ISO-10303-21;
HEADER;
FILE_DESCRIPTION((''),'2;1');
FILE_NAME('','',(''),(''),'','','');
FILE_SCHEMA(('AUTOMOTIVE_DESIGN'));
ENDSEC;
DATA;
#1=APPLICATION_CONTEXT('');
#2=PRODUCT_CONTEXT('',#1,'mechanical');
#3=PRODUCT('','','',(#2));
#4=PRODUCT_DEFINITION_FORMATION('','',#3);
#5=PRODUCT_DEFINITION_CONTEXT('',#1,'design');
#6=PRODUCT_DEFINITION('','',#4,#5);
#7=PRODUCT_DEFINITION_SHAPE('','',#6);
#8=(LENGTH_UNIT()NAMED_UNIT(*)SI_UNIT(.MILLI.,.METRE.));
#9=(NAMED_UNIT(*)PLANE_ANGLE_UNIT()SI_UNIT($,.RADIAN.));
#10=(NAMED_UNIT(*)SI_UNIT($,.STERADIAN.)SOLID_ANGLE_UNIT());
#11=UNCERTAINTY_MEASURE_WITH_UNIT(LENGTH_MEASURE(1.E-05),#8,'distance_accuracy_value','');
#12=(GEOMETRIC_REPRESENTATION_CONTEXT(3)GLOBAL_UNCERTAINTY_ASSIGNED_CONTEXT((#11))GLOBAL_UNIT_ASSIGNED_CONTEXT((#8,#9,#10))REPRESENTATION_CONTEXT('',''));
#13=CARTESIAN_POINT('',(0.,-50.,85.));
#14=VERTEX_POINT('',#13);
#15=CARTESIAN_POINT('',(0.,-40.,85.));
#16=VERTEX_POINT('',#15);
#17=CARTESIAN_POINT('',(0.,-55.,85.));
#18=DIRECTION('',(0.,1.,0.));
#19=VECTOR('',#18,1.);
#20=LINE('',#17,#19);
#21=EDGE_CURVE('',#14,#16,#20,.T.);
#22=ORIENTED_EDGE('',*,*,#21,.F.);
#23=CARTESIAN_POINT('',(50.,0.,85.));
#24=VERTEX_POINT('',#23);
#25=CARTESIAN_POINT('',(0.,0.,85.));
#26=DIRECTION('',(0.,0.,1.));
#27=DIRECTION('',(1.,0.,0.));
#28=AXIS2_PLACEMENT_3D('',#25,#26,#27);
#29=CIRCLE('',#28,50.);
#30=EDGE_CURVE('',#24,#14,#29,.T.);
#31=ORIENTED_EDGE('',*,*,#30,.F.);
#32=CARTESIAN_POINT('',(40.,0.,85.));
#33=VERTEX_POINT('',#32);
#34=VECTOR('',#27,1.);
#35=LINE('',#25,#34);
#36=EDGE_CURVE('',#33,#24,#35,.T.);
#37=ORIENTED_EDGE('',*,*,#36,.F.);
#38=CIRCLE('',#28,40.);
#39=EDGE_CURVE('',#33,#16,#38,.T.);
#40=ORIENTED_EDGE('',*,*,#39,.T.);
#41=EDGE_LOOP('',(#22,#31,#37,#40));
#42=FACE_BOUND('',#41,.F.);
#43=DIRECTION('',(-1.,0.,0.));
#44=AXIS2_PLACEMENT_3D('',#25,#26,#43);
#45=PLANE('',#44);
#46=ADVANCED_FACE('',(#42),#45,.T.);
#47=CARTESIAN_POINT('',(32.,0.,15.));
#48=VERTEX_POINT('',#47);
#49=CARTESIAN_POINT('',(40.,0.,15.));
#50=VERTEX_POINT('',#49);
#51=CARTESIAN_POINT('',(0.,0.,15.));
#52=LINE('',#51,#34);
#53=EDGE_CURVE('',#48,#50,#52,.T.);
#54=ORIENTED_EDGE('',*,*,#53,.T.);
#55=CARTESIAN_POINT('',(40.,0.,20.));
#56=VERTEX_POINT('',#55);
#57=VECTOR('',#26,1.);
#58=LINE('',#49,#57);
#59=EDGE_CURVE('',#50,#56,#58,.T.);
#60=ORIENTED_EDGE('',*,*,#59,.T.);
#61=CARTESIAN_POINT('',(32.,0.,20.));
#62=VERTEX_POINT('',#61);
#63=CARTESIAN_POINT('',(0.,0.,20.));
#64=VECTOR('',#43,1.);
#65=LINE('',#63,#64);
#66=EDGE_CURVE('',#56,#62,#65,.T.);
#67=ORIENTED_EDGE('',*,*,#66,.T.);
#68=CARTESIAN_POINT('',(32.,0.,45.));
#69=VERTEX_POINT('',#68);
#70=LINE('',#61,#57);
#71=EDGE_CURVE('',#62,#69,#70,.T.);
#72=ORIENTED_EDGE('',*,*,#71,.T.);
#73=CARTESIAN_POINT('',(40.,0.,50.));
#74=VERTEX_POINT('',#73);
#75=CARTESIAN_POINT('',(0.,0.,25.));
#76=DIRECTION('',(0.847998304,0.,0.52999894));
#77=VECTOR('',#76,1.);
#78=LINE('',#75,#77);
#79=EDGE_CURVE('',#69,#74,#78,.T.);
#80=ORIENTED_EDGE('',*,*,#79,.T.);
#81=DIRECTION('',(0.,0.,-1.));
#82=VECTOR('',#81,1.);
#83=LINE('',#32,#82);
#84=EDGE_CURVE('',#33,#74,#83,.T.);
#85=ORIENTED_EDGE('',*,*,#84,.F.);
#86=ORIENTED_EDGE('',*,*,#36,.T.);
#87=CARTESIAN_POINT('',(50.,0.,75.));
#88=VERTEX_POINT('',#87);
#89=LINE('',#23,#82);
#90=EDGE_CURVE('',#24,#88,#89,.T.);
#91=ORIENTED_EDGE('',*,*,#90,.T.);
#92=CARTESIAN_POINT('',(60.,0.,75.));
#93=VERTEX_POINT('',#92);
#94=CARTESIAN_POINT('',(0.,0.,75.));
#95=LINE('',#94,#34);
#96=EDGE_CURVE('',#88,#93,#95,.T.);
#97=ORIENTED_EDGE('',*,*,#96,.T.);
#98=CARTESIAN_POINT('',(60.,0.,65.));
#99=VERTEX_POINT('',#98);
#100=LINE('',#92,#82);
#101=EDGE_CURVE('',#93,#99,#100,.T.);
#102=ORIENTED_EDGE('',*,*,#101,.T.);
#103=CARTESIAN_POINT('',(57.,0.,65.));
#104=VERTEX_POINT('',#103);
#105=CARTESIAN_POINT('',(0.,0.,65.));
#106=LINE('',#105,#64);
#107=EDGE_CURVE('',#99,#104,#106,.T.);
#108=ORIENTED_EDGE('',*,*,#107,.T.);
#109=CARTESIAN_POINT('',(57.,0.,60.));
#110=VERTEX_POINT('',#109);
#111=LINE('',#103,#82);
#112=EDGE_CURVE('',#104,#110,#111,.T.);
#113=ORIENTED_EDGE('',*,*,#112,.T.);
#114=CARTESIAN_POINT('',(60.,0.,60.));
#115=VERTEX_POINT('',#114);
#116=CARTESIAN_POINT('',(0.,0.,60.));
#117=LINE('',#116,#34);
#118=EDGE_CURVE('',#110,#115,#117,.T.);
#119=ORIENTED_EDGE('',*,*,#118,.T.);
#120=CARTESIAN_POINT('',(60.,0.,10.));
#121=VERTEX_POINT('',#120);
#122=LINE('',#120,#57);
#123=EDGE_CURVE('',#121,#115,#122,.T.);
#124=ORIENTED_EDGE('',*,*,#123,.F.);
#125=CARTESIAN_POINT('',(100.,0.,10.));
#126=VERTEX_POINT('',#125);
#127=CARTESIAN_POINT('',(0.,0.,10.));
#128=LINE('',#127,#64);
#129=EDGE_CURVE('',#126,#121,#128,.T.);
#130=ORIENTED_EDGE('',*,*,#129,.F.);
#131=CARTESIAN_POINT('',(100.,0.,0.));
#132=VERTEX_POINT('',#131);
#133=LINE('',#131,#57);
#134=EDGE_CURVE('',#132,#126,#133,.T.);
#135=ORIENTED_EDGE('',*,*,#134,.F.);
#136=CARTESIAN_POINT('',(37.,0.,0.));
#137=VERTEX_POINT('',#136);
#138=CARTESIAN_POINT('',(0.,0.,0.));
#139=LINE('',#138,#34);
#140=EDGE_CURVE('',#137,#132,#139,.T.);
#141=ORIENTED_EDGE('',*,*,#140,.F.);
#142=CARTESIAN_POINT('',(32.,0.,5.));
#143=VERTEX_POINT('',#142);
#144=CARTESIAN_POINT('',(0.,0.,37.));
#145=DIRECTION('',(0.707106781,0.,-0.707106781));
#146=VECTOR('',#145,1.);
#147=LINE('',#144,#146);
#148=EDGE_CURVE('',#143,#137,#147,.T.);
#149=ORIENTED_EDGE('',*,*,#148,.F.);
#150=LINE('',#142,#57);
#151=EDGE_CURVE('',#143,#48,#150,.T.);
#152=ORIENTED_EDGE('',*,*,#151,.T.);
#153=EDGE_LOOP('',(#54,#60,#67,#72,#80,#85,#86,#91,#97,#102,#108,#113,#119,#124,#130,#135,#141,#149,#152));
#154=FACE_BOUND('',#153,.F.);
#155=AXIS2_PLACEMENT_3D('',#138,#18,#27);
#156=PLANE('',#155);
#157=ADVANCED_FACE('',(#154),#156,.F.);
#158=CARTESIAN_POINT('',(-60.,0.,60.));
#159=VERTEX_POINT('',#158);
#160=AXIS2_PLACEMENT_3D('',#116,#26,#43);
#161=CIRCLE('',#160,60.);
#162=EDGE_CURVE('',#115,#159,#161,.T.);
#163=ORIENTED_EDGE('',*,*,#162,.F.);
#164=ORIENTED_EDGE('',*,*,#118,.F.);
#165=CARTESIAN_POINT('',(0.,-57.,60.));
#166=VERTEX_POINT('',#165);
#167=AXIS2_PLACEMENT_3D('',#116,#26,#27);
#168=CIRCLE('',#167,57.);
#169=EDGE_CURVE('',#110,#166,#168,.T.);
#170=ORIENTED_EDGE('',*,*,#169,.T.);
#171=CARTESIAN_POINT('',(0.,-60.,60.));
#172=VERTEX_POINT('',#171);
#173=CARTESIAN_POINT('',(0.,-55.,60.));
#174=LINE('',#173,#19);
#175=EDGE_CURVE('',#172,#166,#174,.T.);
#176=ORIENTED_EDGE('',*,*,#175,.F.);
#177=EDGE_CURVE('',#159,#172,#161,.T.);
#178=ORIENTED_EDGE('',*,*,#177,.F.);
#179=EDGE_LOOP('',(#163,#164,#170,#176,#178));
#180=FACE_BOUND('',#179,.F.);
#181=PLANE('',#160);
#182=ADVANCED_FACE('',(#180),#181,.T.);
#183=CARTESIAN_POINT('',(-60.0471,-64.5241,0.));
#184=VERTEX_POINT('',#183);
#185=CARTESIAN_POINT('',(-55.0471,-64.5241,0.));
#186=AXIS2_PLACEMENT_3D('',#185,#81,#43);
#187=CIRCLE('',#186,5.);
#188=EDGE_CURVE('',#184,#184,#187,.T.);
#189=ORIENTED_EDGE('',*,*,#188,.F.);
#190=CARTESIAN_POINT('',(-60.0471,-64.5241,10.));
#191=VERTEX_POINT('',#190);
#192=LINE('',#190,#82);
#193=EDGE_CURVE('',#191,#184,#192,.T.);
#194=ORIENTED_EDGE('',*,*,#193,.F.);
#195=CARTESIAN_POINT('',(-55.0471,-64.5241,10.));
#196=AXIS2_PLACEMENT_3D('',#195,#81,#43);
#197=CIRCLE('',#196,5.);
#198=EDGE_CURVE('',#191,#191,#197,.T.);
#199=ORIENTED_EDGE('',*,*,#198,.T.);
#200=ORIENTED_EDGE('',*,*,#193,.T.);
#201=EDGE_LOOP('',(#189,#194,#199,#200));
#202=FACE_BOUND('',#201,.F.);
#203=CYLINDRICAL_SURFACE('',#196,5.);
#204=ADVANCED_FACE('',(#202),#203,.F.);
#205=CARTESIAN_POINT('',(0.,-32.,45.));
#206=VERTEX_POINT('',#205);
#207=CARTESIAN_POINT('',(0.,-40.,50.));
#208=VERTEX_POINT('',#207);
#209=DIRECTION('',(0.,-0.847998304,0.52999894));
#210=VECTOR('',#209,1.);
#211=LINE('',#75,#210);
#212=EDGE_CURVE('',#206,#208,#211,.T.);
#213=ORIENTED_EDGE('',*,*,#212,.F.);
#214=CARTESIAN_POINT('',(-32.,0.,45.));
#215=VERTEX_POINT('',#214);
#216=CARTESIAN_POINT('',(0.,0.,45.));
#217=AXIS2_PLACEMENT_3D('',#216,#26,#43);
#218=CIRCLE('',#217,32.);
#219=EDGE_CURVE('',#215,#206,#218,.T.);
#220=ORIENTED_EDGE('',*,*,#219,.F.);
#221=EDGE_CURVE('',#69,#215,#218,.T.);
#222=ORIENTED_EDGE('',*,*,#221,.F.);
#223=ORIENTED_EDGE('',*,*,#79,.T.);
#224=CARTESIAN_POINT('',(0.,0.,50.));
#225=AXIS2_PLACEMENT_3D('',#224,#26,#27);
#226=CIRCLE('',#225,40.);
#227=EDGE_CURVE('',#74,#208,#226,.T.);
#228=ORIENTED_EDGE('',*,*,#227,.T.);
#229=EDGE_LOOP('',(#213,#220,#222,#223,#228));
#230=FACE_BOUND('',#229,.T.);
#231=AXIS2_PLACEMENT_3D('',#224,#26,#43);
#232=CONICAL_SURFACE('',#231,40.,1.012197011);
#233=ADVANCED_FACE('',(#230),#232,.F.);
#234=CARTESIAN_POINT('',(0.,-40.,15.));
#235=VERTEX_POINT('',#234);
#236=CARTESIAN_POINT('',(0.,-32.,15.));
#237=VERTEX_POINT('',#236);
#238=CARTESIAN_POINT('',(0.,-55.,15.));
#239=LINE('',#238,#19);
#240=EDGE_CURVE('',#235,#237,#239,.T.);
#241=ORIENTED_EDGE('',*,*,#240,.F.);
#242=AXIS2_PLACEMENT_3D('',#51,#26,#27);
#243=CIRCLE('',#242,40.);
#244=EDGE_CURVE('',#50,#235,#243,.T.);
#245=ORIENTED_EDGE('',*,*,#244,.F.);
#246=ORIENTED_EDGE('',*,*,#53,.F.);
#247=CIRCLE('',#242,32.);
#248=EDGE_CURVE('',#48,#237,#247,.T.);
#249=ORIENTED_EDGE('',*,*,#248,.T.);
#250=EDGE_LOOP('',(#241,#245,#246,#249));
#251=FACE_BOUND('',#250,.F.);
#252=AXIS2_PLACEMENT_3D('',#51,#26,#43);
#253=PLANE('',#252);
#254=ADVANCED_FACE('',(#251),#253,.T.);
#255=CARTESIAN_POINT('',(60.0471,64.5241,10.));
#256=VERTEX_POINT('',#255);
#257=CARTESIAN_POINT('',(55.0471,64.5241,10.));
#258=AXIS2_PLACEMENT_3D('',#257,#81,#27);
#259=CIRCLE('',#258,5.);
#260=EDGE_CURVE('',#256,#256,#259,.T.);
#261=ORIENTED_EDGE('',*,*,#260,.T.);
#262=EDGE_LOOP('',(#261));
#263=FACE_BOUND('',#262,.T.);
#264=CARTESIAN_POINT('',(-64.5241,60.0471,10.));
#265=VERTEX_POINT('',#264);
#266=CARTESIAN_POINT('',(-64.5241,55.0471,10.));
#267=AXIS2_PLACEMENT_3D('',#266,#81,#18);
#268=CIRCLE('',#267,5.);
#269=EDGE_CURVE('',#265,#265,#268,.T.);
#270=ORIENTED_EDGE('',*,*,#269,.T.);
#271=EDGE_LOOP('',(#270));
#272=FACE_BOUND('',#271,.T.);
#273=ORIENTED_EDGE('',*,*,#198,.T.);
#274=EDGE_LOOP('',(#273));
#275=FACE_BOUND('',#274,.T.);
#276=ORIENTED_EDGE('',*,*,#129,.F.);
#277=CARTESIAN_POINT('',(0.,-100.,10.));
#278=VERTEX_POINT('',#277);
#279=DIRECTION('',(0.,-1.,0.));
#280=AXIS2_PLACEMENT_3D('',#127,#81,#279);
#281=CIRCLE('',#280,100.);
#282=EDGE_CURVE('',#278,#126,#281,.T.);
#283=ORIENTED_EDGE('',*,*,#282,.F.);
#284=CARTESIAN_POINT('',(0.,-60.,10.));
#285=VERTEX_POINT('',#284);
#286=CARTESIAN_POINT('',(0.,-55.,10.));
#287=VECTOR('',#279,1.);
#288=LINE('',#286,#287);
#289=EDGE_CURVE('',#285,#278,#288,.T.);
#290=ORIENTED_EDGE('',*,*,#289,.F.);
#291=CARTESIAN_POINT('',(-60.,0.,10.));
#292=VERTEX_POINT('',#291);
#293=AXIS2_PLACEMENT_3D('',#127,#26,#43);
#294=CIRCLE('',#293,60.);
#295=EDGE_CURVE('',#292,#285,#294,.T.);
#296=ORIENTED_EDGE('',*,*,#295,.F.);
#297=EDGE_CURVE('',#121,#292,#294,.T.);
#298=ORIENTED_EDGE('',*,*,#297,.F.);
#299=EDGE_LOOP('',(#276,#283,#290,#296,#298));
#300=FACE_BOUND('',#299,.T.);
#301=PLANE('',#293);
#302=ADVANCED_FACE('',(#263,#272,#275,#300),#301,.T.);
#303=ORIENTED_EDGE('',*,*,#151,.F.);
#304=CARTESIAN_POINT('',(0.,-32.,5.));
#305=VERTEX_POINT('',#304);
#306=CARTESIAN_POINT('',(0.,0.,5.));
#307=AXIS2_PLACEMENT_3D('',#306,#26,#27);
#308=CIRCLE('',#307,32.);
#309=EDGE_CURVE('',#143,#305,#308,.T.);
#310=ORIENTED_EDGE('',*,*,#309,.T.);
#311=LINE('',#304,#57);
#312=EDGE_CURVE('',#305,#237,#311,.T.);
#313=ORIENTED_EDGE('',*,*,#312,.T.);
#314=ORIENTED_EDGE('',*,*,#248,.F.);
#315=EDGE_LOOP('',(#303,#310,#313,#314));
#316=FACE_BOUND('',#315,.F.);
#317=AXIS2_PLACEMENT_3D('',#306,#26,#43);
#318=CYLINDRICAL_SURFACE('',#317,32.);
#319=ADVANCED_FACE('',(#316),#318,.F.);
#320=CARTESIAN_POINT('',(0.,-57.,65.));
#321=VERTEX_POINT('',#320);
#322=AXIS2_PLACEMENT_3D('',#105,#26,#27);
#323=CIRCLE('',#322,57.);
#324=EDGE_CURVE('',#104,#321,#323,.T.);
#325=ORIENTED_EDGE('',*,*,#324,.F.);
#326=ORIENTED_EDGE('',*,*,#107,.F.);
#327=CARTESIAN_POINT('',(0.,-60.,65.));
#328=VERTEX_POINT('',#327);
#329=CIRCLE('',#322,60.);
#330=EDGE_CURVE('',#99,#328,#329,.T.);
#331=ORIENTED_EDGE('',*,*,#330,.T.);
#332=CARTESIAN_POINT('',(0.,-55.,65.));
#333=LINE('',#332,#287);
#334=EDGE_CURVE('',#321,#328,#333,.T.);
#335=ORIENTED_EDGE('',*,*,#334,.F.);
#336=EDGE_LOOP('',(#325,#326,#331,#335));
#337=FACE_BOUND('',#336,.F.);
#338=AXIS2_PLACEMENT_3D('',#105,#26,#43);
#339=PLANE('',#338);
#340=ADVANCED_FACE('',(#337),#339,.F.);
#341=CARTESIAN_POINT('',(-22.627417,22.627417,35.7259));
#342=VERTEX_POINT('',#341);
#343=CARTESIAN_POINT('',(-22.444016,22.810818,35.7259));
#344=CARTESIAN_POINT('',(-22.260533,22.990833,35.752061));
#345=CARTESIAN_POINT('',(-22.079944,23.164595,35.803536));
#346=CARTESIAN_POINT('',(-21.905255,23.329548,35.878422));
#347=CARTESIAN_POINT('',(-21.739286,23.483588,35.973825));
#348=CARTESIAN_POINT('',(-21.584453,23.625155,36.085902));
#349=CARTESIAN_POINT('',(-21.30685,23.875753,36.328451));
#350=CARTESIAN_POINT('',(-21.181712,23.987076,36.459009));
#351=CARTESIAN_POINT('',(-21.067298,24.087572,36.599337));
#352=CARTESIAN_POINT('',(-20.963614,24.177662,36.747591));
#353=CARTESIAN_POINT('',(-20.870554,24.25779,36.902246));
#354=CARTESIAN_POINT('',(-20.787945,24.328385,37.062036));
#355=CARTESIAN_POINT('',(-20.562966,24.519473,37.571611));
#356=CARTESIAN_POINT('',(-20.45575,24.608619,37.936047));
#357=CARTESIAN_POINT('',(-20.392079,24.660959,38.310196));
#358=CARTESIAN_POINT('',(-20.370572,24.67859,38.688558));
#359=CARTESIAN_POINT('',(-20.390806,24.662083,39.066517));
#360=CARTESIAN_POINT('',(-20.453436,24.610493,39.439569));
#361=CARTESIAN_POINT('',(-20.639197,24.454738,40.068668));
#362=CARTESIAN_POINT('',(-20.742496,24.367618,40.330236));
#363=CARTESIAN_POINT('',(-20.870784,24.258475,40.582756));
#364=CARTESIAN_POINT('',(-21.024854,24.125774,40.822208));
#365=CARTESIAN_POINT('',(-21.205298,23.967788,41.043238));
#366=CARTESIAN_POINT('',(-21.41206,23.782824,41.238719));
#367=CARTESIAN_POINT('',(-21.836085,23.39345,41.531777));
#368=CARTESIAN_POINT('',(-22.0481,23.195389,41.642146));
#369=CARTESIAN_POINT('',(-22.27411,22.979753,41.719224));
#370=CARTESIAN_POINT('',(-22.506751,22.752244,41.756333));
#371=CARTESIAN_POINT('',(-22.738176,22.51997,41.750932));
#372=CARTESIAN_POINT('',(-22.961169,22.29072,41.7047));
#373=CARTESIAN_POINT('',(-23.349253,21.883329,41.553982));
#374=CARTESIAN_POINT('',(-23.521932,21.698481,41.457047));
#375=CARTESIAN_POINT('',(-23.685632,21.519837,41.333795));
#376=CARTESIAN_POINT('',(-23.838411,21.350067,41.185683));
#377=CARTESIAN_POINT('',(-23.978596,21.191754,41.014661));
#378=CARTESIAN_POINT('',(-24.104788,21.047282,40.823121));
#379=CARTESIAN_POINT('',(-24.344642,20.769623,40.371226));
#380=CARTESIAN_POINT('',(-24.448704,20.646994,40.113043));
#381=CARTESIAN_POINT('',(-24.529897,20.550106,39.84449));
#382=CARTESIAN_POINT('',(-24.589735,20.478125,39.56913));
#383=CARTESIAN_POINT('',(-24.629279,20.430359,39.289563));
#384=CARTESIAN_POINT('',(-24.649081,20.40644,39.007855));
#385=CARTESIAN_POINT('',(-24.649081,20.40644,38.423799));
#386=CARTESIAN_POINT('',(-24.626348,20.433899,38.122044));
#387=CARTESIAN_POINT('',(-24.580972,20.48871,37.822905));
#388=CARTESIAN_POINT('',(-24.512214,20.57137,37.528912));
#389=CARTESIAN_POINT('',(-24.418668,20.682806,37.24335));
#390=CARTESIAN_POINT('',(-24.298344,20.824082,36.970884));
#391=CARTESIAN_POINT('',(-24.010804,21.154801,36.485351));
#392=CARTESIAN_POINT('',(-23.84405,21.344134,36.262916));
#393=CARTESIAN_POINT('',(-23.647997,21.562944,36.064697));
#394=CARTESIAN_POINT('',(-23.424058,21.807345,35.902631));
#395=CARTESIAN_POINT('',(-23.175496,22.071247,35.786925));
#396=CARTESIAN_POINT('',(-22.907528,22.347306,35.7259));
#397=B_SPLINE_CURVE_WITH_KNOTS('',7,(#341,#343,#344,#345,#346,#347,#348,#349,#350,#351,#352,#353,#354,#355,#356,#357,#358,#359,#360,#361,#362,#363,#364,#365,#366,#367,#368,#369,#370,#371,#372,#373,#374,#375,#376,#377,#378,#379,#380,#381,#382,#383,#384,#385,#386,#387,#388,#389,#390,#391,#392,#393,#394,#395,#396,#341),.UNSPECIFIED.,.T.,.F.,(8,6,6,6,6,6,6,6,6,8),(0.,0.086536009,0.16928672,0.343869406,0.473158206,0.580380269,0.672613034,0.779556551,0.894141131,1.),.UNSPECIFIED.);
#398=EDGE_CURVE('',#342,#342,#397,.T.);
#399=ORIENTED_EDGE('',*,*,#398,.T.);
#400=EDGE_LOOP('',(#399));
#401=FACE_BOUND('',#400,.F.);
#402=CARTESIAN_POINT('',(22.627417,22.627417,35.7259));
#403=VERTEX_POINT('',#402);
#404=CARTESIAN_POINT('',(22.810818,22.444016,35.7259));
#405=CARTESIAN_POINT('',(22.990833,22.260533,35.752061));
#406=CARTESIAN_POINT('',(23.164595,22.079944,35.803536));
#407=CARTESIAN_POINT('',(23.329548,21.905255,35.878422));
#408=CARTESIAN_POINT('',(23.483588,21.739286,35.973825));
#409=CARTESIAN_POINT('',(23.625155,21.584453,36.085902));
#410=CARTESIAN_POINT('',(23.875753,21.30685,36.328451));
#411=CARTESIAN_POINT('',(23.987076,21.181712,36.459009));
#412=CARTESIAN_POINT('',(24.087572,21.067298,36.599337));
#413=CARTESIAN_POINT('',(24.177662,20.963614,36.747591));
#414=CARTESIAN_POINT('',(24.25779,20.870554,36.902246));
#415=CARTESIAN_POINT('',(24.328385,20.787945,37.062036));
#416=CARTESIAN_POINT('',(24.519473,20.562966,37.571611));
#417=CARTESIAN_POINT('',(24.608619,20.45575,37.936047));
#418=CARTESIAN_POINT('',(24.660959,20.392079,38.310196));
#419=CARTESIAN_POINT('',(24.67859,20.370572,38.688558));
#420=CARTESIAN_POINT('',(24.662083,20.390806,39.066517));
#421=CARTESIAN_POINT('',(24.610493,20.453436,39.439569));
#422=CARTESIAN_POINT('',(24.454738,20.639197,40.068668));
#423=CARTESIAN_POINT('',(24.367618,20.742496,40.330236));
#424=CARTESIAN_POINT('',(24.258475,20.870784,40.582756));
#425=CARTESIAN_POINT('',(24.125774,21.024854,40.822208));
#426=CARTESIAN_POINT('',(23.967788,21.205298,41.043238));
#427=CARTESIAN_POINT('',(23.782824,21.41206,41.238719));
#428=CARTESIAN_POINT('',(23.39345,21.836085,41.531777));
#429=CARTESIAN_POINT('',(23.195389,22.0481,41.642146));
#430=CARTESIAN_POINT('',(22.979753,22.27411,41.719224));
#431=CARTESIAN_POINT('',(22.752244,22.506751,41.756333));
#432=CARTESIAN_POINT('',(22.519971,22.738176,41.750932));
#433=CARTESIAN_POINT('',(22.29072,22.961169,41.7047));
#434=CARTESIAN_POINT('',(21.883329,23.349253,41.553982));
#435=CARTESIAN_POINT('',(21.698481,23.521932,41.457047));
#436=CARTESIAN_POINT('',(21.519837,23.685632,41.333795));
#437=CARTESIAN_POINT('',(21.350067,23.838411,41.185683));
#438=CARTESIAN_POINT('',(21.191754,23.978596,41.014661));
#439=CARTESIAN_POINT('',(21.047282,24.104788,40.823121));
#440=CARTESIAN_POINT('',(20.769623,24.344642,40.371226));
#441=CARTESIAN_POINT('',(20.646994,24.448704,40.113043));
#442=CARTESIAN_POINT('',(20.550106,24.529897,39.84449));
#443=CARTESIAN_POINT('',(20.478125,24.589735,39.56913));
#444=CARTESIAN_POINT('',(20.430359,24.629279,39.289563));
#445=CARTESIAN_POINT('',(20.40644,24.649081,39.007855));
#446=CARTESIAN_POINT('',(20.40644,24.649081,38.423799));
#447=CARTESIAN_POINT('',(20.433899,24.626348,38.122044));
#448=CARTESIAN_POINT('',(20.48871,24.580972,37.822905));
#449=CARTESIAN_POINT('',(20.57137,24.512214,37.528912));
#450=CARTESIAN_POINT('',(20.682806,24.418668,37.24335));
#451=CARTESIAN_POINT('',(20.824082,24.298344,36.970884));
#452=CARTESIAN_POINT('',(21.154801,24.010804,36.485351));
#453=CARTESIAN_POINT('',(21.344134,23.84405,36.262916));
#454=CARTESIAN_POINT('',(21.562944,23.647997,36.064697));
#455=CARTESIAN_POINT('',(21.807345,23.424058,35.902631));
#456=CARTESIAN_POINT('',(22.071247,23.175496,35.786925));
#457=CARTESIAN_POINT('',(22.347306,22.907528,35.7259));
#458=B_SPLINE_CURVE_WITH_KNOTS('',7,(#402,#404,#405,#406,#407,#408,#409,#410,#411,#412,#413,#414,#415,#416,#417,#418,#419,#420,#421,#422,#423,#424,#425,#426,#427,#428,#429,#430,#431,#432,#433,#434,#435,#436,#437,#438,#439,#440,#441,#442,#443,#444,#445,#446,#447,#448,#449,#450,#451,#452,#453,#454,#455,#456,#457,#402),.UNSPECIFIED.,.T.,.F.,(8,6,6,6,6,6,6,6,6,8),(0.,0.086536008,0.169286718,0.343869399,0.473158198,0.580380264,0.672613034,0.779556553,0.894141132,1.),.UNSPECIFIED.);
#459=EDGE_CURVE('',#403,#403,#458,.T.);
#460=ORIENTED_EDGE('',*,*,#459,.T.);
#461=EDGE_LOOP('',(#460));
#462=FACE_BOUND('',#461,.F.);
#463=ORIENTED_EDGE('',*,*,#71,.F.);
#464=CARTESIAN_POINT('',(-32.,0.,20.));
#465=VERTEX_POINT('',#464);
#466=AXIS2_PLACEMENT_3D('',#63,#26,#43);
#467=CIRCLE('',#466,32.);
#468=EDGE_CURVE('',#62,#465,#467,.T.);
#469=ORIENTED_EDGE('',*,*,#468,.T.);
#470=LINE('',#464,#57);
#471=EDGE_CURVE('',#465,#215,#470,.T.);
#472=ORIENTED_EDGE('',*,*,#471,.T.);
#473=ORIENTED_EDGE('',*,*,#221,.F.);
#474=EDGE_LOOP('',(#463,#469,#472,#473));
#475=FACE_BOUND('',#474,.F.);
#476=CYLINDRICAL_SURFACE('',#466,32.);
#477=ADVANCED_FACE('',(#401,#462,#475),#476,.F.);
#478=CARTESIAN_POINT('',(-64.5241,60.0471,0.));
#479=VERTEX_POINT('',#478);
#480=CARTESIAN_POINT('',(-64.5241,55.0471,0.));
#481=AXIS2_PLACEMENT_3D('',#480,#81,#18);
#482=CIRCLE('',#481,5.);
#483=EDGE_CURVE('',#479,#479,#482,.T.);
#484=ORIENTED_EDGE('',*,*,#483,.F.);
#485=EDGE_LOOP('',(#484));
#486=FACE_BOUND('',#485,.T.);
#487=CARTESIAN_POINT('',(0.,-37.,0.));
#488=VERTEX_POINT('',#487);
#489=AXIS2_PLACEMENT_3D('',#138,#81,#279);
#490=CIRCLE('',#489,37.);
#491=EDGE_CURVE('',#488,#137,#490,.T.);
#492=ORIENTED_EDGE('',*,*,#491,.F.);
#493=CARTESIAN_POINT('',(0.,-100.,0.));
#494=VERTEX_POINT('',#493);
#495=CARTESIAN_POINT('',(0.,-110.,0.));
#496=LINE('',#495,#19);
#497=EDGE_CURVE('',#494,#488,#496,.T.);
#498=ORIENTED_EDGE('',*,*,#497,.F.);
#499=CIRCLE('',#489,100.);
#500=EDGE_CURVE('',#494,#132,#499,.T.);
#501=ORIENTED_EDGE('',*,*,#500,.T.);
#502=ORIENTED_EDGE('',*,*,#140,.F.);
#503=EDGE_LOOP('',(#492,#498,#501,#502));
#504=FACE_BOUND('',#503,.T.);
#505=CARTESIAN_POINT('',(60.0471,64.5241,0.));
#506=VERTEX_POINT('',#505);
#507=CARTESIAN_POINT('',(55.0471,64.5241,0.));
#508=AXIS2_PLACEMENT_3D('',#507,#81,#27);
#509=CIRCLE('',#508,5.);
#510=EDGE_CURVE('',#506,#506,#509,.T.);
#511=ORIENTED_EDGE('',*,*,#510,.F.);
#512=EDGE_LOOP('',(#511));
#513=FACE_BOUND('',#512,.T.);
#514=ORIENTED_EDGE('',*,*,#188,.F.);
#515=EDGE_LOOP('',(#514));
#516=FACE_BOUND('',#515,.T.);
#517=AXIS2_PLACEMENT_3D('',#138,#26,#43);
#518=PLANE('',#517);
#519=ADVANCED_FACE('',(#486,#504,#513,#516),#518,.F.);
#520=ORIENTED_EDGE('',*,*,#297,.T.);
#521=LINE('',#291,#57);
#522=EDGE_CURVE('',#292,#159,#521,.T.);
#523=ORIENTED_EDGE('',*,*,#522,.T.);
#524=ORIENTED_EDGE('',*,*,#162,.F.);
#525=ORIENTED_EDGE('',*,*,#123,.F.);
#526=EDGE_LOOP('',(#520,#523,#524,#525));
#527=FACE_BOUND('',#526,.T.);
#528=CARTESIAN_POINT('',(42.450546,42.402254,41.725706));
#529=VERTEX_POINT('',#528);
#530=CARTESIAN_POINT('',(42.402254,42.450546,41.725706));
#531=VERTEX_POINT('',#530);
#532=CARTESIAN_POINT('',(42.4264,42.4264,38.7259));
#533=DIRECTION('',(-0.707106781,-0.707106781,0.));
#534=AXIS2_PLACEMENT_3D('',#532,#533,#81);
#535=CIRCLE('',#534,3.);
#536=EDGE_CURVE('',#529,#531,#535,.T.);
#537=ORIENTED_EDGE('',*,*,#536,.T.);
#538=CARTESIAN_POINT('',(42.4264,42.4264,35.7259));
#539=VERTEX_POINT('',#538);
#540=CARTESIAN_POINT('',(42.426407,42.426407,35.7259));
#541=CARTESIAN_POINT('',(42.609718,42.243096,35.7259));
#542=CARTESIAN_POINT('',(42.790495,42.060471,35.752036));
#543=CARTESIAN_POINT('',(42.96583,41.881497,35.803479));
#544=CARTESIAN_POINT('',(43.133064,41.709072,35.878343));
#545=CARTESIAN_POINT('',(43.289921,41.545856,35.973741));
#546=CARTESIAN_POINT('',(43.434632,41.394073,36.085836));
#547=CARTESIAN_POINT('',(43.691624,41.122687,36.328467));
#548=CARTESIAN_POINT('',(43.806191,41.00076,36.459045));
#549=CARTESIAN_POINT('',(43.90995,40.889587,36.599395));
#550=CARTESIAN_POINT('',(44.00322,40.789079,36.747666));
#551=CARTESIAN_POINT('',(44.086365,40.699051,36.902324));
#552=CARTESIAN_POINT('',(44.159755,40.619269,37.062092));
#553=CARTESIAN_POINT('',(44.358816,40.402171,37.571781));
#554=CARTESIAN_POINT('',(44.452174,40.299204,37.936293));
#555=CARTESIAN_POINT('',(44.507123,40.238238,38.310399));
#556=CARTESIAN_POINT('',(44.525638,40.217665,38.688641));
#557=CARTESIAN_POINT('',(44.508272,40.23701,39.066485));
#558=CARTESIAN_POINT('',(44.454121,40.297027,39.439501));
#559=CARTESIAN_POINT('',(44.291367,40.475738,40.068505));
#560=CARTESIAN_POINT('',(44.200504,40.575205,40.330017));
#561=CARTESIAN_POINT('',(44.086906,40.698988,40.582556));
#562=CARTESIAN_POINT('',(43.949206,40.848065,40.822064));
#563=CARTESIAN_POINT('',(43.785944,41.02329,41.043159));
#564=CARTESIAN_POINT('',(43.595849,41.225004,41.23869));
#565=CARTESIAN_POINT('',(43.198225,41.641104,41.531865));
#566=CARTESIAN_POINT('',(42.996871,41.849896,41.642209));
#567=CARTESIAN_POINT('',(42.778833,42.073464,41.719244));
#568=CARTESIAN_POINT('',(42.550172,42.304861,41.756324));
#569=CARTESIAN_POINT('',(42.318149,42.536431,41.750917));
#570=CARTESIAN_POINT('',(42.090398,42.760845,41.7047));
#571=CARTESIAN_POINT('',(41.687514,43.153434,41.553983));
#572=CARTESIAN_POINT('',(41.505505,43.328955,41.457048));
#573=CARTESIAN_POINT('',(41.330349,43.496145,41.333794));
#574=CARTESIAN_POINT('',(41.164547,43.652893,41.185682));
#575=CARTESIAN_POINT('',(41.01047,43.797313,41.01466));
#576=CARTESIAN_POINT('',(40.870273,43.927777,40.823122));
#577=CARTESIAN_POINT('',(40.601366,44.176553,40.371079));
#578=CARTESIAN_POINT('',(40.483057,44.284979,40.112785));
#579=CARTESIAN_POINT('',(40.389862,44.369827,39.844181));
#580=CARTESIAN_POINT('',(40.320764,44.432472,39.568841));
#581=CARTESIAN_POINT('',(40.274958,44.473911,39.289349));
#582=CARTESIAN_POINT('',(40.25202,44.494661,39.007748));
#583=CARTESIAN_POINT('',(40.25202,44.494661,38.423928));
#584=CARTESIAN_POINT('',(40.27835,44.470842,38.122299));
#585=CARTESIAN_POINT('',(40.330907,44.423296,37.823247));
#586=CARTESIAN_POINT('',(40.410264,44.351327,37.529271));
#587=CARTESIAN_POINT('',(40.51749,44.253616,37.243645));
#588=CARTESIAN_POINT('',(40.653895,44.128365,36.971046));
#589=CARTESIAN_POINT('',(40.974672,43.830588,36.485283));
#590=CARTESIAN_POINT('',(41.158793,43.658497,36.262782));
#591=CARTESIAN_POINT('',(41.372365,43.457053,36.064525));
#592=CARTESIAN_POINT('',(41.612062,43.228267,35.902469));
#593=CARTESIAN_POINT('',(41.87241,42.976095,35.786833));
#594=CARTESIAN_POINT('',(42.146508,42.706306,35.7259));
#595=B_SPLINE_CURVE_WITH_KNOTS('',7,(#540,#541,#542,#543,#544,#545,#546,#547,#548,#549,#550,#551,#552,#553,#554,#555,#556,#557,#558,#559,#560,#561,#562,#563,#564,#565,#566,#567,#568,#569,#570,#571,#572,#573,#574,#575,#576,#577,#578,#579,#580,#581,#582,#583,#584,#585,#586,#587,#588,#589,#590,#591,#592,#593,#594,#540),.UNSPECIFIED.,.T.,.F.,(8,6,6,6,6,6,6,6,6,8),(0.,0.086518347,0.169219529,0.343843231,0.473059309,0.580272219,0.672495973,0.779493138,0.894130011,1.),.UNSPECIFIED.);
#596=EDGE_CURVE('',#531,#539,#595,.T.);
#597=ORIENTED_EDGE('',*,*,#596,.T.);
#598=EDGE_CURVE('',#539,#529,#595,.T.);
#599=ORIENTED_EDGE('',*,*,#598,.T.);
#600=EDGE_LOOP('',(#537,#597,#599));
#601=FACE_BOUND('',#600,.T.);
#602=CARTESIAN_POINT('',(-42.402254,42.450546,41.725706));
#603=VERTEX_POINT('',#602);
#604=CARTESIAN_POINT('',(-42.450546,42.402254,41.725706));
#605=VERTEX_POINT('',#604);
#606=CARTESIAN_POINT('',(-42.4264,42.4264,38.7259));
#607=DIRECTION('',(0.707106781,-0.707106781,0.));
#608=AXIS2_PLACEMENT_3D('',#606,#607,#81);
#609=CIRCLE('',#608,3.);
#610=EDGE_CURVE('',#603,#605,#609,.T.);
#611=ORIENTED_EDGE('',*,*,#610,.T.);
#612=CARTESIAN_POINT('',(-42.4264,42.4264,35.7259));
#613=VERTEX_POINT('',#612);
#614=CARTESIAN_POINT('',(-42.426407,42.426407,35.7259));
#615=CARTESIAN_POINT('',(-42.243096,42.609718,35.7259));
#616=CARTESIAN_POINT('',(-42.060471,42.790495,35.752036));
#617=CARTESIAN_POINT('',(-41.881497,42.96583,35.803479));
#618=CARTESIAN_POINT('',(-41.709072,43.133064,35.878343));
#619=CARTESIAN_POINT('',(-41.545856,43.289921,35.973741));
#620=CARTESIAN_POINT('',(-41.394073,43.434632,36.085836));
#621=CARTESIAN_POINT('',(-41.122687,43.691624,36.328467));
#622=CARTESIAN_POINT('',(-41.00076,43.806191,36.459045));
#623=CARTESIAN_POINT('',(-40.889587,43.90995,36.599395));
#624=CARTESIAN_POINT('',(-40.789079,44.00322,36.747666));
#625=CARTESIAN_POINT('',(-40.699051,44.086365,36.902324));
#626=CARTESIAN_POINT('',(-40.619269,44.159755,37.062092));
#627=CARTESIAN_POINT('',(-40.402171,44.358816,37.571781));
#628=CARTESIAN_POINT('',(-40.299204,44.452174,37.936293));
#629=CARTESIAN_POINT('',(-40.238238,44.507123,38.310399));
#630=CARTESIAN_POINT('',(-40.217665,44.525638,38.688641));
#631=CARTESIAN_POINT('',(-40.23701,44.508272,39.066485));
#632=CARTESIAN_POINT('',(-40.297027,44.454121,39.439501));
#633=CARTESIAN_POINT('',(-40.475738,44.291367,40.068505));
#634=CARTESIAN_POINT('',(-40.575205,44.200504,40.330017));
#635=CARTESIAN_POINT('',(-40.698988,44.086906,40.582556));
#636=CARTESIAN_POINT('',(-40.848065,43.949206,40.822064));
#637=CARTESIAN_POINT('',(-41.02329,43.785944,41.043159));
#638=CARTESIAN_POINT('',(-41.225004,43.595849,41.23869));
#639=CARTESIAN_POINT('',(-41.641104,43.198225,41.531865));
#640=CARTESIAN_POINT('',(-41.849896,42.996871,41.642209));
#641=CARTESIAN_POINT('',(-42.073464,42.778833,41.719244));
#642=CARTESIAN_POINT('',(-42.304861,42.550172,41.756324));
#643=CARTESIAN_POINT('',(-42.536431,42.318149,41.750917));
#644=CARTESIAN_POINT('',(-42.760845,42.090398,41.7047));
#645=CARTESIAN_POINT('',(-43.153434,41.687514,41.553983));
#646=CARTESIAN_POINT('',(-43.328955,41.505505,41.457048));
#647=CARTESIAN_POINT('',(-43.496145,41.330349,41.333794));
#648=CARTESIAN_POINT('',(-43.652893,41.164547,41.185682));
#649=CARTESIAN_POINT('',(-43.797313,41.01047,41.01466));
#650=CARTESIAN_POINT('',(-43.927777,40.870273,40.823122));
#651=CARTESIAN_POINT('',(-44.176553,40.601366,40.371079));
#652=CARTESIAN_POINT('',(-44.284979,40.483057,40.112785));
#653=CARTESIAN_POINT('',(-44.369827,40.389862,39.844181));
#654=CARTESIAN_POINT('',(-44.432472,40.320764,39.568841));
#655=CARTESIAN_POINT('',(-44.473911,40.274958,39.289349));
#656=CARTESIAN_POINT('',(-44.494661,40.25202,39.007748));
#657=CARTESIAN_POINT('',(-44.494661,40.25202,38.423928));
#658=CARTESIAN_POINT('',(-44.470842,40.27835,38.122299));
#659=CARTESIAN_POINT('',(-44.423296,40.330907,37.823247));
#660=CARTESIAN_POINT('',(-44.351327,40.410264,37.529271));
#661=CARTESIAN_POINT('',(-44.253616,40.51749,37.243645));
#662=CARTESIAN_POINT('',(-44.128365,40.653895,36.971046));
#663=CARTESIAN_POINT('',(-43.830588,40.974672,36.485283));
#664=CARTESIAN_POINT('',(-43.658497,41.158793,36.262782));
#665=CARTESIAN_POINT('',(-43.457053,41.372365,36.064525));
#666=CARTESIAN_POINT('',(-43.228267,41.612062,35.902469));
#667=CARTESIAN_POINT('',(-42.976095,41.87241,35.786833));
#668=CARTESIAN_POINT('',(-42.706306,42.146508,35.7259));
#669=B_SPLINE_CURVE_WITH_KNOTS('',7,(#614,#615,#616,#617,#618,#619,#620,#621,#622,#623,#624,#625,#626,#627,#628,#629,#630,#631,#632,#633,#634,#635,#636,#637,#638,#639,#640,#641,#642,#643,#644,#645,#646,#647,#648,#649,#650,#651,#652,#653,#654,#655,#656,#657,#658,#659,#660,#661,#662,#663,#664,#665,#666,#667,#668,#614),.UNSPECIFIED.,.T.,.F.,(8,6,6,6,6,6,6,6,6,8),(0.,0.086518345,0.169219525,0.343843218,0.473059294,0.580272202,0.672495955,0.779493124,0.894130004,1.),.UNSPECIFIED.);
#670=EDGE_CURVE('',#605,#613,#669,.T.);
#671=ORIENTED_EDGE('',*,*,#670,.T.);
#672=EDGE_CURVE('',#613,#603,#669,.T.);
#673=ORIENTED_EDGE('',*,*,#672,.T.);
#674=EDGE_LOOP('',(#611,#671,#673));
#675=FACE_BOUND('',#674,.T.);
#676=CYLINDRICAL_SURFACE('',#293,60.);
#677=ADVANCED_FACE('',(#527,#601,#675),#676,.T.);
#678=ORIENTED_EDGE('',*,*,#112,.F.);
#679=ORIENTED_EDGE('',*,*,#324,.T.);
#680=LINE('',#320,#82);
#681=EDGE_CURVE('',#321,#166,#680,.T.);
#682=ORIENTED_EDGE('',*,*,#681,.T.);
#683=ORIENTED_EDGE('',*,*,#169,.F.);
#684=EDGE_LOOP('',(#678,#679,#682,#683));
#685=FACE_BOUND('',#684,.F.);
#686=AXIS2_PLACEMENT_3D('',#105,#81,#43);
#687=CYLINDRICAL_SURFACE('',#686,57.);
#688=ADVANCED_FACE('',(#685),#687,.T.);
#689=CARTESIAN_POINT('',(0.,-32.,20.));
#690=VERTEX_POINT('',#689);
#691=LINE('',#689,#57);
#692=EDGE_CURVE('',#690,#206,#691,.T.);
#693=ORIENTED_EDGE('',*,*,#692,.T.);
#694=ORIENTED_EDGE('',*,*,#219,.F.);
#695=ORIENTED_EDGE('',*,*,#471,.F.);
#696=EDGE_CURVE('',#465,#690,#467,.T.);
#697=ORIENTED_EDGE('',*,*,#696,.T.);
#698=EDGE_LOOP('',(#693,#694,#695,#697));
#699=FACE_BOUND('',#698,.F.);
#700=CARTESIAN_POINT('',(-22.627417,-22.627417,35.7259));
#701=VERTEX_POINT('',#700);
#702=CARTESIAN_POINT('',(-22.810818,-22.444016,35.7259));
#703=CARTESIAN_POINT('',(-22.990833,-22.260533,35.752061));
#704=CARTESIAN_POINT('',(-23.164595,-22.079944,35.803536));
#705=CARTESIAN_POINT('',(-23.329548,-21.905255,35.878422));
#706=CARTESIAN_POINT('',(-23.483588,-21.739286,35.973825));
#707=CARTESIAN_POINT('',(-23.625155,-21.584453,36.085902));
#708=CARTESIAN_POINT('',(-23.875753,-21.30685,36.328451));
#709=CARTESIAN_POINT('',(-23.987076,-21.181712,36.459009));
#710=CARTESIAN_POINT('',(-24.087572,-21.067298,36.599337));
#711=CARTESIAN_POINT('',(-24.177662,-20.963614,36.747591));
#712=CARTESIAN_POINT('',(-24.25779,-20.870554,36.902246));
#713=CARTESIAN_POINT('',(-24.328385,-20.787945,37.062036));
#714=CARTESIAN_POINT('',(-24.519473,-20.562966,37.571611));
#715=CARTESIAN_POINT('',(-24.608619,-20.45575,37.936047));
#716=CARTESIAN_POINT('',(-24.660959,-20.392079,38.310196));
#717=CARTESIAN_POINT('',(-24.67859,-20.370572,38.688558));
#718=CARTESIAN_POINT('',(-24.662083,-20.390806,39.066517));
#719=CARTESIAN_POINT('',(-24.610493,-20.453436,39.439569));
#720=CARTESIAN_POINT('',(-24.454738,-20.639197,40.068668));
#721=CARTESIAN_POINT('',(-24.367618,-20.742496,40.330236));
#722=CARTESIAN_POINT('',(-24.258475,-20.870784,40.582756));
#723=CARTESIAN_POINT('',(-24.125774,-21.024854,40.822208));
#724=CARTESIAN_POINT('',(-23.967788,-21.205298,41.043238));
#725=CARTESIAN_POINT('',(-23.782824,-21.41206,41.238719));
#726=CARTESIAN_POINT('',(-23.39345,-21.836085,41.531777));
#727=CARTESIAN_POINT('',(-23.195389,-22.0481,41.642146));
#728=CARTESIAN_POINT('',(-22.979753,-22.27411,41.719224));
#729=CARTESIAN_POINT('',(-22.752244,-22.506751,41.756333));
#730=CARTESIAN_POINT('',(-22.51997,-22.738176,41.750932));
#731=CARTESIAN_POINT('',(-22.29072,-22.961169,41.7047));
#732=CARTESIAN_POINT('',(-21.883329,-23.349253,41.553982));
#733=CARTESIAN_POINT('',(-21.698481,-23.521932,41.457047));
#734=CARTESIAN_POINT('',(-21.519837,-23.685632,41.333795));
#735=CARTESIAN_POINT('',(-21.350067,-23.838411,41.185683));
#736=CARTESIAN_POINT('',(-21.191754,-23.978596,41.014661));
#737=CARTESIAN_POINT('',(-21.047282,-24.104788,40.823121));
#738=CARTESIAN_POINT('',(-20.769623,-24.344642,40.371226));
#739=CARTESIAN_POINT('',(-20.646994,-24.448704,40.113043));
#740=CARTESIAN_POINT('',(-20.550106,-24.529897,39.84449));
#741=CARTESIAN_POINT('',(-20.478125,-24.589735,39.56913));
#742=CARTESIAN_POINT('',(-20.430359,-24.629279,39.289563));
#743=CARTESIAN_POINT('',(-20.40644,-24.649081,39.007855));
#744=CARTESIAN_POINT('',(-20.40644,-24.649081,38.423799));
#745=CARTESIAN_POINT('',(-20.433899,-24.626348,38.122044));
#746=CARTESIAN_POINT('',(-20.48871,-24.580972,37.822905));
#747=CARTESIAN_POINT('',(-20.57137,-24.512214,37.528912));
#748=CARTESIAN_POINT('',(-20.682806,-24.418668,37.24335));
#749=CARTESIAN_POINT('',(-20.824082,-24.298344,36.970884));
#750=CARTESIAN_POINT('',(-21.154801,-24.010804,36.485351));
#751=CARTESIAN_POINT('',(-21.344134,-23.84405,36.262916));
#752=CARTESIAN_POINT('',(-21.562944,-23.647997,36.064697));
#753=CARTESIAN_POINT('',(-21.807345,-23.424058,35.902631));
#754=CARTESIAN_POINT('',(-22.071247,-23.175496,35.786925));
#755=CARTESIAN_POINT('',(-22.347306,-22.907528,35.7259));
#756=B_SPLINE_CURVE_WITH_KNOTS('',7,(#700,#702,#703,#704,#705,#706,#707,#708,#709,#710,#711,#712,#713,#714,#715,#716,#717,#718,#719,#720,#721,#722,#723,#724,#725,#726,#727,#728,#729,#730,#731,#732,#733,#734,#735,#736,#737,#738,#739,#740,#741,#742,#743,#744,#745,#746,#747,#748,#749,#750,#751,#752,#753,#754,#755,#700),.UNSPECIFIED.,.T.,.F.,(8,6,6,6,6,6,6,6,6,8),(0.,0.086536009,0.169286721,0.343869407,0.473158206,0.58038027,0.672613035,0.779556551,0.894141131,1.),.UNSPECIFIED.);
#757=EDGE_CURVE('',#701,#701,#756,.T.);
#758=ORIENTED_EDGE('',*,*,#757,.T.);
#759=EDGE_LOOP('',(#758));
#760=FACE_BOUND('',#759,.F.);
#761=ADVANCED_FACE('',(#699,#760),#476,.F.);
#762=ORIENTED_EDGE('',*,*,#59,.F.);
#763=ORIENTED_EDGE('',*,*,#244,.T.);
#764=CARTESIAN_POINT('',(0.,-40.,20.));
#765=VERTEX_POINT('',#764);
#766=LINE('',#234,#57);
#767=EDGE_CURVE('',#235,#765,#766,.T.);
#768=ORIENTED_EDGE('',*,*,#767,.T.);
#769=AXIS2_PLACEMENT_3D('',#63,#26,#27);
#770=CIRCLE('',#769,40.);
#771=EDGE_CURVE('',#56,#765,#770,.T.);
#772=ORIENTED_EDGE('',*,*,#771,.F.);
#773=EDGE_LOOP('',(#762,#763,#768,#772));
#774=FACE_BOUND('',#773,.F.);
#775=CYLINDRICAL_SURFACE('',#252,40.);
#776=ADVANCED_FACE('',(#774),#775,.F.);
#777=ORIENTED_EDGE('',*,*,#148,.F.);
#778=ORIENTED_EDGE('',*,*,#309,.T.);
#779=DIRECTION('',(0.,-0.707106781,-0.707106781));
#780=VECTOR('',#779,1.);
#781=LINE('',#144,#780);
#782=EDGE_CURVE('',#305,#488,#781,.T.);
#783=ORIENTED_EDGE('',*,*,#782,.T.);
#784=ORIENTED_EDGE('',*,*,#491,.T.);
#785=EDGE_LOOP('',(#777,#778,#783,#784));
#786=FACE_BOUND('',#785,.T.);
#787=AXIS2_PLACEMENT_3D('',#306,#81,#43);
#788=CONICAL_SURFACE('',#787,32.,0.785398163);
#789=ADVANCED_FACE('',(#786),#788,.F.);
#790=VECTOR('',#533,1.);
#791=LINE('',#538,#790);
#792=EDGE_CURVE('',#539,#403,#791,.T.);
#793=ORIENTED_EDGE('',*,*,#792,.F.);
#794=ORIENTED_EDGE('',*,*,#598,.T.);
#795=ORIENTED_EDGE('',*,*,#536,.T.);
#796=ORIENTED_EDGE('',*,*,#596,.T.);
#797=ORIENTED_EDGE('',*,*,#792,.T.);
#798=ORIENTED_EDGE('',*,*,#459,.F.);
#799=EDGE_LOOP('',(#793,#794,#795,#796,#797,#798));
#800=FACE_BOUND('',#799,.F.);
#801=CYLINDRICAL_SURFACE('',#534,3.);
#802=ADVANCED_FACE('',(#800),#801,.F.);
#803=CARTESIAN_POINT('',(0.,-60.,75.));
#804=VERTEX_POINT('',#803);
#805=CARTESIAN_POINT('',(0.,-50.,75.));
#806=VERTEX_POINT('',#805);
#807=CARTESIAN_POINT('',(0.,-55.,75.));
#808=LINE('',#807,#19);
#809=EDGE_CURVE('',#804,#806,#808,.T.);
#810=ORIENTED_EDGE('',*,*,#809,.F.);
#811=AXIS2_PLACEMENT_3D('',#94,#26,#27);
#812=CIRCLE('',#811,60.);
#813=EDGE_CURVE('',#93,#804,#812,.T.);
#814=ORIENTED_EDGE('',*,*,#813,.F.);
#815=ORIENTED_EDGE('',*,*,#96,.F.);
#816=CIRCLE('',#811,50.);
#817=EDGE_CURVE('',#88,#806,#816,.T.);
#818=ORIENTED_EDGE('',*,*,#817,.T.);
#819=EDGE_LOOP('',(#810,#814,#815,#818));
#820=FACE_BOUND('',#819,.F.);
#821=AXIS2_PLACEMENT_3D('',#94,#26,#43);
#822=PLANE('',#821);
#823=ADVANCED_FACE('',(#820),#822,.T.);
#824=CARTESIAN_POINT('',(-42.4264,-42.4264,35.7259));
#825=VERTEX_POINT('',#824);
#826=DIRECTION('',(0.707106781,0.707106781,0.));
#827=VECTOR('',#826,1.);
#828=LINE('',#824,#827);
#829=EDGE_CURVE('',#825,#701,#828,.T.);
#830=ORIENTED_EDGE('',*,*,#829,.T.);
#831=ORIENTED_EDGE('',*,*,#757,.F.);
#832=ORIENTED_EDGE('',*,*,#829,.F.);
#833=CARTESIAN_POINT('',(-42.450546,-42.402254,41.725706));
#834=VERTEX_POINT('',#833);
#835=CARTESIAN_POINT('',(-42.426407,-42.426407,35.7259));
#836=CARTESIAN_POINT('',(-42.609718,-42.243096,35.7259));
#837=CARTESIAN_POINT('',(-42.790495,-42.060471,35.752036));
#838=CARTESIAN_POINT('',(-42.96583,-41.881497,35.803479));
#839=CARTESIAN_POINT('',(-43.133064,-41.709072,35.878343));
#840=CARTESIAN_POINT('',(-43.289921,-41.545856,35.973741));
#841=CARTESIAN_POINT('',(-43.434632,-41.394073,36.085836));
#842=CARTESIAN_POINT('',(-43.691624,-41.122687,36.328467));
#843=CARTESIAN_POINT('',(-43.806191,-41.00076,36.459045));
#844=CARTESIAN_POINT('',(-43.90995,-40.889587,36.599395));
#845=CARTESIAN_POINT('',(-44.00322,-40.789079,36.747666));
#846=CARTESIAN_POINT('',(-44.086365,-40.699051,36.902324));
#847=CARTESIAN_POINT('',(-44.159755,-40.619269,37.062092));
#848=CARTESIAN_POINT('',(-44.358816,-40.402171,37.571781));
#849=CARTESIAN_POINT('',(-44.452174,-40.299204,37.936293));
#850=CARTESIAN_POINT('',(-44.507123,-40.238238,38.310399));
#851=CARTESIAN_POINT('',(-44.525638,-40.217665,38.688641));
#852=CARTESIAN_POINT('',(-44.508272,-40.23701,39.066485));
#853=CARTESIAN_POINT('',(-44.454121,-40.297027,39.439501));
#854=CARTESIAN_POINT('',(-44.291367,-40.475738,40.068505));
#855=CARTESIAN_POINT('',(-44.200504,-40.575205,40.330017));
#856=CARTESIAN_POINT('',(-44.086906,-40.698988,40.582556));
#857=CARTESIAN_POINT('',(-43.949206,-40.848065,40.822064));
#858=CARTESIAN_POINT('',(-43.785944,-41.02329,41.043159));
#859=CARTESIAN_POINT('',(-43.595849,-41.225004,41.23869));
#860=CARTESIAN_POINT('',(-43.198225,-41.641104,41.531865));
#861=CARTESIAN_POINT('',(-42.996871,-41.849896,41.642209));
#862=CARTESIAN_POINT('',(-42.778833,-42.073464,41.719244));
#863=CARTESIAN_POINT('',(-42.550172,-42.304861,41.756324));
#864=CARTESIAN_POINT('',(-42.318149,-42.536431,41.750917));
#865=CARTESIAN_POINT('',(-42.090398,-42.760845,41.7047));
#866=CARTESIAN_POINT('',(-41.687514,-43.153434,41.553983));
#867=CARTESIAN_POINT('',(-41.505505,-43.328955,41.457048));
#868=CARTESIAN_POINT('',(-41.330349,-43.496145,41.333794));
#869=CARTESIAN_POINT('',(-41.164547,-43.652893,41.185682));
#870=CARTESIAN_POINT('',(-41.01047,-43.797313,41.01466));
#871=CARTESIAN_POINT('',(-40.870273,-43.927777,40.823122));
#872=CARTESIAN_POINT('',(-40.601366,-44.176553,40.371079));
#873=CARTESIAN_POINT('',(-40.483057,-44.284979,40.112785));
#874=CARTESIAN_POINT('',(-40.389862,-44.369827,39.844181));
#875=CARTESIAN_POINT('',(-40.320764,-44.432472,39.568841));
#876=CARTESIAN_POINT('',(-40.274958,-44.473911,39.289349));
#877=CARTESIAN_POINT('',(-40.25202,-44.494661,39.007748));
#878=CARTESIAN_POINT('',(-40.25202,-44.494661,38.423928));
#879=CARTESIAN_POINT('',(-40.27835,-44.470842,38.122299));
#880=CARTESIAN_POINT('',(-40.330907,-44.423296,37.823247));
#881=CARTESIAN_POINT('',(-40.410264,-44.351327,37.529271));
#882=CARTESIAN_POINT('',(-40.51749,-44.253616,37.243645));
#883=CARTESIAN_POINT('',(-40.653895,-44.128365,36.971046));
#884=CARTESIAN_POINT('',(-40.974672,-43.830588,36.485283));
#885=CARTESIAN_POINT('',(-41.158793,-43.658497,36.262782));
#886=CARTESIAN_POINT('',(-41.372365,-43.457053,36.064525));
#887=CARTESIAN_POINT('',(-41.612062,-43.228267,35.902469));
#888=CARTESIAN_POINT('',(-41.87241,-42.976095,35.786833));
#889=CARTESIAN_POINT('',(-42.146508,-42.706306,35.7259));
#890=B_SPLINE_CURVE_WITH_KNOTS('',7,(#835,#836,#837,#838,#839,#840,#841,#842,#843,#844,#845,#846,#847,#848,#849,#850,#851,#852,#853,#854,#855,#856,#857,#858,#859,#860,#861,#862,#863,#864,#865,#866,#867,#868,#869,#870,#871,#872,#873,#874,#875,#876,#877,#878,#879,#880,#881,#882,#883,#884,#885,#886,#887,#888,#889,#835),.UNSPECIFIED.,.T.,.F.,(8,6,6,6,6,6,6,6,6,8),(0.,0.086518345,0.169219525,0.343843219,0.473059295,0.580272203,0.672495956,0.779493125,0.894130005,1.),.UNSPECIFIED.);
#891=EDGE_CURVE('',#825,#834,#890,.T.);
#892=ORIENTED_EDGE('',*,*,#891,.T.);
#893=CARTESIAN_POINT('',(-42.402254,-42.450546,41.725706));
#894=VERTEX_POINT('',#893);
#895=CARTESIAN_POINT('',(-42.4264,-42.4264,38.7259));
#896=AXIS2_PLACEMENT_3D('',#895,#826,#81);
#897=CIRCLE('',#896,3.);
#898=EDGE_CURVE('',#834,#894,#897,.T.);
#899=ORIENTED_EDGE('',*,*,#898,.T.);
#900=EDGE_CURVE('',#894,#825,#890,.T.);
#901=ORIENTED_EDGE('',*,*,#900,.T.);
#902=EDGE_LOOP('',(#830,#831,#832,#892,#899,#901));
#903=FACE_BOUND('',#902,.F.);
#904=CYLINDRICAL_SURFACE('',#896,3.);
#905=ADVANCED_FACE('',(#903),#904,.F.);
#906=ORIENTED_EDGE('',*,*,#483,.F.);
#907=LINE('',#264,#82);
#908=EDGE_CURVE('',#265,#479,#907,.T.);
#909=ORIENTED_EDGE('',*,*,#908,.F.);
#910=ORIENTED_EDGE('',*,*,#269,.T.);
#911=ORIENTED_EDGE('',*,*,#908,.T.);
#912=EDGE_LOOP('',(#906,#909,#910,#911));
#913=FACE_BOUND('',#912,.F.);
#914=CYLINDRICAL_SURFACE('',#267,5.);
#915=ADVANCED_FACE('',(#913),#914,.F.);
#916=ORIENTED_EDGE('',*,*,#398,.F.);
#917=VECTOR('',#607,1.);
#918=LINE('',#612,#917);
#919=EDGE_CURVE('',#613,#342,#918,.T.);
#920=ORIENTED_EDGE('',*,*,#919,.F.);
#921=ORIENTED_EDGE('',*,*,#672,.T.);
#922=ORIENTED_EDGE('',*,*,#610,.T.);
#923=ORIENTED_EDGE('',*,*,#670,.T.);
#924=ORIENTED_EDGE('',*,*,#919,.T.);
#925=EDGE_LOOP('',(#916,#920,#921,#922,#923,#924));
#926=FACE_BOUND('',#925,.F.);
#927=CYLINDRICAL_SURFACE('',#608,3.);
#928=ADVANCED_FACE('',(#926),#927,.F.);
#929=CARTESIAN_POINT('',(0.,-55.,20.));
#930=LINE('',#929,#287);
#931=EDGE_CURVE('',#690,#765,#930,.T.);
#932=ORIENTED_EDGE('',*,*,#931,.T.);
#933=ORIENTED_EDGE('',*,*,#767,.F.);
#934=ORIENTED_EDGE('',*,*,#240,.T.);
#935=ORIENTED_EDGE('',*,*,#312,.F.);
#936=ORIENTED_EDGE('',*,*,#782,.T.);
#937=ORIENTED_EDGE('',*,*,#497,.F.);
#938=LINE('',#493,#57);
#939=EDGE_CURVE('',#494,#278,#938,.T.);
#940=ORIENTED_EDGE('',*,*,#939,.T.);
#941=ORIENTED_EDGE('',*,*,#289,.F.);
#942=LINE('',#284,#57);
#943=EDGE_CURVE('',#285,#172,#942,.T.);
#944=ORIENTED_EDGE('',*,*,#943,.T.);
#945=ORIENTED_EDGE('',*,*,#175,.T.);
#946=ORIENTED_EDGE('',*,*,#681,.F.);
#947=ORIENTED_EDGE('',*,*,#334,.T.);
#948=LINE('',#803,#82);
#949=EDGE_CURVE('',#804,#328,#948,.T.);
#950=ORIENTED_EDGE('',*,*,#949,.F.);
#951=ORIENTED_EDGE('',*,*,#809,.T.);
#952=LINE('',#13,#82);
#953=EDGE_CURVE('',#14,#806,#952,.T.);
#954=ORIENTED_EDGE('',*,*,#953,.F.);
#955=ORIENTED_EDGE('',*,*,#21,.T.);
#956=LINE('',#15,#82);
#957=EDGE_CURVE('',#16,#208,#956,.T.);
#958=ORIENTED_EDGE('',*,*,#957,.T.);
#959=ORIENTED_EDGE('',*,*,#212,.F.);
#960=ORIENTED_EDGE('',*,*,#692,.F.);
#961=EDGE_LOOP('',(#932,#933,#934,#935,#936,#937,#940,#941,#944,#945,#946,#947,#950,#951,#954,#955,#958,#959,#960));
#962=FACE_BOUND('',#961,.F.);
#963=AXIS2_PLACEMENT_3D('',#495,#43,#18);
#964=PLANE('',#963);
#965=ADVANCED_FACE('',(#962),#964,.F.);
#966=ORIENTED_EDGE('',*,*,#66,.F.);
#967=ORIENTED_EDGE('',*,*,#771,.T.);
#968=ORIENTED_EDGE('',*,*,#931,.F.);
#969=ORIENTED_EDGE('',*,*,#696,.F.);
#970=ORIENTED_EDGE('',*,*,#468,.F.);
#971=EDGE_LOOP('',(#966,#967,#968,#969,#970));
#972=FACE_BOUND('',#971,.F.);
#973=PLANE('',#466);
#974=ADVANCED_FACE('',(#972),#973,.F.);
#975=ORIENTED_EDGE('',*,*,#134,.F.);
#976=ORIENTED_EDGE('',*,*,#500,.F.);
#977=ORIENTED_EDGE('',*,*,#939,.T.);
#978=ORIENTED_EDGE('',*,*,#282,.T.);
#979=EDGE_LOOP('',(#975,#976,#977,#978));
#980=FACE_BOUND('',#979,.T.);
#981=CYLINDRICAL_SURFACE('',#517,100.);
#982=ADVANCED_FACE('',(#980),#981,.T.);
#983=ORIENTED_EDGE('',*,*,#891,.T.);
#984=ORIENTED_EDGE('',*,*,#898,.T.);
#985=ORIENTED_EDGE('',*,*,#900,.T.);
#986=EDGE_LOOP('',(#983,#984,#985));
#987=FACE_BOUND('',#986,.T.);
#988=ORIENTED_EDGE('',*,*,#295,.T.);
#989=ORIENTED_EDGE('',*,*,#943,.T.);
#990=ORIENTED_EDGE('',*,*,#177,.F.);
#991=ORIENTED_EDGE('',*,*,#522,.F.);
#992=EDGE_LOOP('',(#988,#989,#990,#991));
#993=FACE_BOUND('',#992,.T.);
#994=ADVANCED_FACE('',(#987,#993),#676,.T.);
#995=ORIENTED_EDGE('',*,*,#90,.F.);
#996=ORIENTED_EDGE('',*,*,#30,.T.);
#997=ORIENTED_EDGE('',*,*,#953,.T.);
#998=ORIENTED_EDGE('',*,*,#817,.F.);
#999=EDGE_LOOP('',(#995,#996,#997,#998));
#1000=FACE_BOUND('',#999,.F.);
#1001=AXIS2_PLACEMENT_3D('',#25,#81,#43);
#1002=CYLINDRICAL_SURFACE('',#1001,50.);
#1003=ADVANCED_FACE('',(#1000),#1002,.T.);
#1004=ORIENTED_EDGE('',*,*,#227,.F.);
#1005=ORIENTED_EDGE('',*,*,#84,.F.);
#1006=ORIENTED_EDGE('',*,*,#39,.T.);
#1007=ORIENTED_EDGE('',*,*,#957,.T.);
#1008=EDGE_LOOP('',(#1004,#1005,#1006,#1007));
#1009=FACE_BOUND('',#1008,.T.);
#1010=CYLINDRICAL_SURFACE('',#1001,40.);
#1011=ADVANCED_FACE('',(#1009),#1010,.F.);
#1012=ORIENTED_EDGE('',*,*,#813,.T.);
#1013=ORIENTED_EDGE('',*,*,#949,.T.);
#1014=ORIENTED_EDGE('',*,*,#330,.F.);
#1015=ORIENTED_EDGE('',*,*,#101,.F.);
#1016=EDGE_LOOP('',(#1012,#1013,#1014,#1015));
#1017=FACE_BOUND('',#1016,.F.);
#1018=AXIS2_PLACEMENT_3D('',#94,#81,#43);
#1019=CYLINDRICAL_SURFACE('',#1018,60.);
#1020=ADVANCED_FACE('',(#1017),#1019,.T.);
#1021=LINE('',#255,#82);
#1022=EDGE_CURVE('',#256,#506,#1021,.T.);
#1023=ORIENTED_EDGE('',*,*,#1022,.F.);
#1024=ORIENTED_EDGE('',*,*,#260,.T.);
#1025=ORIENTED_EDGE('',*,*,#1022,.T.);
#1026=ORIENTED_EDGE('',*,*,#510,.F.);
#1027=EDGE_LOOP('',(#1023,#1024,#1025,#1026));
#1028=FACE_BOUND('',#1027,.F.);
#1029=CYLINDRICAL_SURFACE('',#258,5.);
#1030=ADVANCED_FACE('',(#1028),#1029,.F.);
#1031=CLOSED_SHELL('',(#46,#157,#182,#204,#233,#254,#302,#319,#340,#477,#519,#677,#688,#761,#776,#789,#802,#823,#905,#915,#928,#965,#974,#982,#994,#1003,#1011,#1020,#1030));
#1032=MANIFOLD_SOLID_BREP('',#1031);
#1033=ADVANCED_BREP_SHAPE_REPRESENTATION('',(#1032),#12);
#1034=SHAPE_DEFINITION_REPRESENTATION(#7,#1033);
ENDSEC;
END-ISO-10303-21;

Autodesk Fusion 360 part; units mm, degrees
sketch "Sketch1" plane through (0, 0, 0) normal (0, 1, 0) x (1, 0, 0)
  line L0 (-37, 0) -> (-100, 0)
  line L1 (-100, 0) -> (-100, -10)
  line L2 (-100, -10) -> (-60, -10)
  line L3 (0, -10) -> (0, -5)
  line L4 (-32, -5) -> (-37, 0)
  line L5 (-32, -5) -> (-32, -10)
  line L6 (-40, -85) -> (-50, -85)
  line L7 (-40, -85) -> (-40, -50)
  line L8 (-40, -50) -> (-32, -45)
  line L9 (-50, -75) -> (-60, -75)
  line L10 (-50, -85) -> (-50, -75)
  line L11 (-60, -75) -> (-60, -65)
  line L12 (-60, -65) -> (-57, -65)
  line L13 (-57, -65) -> (-57, -60)
  line L14 (-57, -60) -> (-60, -60)
  line L15 (-32, -5) -> (-32, -15)
  line L16 (-32, -15) -> (-40, -15)
  line L17 (-40, -15) -> (-40, -20)
  line L18 (-40, -20) -> (-32, -20)
  line L19 (-60, -10) -> (-60, -60)
  line L20 (-60, -65) -> (-60, -75)
  line L21 (-32, -5) -> (-32, -15)
  line L22 (-32, -20) -> (-32, -45)
  dimension "d1" = 100
  dimension "d2" = 10
  dimension "d5" = 60
  dimension "d15" = 65
  dimension "d16" = 10
  dimension "d17" = 3
  dimension "d19" = 8
revolve "Revolve1" add sketch "Sketch1" angle 360 about axis through (0, 0, 1.75) along (0, 0, 1) second angle 360
hole "Hole1" at (64.5241, -55.0471, 10) direction (0, 0, -1) diameter 10 depth 10 tip angle 118
pattern_circular "C-Pattern1" count 4 over 360 about axis through (0, 0, 1.75) along (0, 0, 1) of "Hole1"
hole "Hole2" at (-42.4264, -42.4264, 38.7259) direction (0.7071, 0.7071, 0) diameter 6 depth 32 tip angle 118
pattern_circular "C-Pattern2" count 4 over 360 about axis through (0, 0, 1.75) along (0, 0, 1) of "Hole2"
sketch "Sketch2" plane through (0, 0, 0) normal (0, 0, 1) x (1, 0, 0)
  line L0 (0, 0) -> (110, 0)
  line L1 (110, 0) -> (110, -110)
  line L2 (110, -110) -> (0, -110)
  line L3 (0, -110) -> (0, 0)
extrude "Extrude1" cut sketch "Sketch2" along normal blind 110
